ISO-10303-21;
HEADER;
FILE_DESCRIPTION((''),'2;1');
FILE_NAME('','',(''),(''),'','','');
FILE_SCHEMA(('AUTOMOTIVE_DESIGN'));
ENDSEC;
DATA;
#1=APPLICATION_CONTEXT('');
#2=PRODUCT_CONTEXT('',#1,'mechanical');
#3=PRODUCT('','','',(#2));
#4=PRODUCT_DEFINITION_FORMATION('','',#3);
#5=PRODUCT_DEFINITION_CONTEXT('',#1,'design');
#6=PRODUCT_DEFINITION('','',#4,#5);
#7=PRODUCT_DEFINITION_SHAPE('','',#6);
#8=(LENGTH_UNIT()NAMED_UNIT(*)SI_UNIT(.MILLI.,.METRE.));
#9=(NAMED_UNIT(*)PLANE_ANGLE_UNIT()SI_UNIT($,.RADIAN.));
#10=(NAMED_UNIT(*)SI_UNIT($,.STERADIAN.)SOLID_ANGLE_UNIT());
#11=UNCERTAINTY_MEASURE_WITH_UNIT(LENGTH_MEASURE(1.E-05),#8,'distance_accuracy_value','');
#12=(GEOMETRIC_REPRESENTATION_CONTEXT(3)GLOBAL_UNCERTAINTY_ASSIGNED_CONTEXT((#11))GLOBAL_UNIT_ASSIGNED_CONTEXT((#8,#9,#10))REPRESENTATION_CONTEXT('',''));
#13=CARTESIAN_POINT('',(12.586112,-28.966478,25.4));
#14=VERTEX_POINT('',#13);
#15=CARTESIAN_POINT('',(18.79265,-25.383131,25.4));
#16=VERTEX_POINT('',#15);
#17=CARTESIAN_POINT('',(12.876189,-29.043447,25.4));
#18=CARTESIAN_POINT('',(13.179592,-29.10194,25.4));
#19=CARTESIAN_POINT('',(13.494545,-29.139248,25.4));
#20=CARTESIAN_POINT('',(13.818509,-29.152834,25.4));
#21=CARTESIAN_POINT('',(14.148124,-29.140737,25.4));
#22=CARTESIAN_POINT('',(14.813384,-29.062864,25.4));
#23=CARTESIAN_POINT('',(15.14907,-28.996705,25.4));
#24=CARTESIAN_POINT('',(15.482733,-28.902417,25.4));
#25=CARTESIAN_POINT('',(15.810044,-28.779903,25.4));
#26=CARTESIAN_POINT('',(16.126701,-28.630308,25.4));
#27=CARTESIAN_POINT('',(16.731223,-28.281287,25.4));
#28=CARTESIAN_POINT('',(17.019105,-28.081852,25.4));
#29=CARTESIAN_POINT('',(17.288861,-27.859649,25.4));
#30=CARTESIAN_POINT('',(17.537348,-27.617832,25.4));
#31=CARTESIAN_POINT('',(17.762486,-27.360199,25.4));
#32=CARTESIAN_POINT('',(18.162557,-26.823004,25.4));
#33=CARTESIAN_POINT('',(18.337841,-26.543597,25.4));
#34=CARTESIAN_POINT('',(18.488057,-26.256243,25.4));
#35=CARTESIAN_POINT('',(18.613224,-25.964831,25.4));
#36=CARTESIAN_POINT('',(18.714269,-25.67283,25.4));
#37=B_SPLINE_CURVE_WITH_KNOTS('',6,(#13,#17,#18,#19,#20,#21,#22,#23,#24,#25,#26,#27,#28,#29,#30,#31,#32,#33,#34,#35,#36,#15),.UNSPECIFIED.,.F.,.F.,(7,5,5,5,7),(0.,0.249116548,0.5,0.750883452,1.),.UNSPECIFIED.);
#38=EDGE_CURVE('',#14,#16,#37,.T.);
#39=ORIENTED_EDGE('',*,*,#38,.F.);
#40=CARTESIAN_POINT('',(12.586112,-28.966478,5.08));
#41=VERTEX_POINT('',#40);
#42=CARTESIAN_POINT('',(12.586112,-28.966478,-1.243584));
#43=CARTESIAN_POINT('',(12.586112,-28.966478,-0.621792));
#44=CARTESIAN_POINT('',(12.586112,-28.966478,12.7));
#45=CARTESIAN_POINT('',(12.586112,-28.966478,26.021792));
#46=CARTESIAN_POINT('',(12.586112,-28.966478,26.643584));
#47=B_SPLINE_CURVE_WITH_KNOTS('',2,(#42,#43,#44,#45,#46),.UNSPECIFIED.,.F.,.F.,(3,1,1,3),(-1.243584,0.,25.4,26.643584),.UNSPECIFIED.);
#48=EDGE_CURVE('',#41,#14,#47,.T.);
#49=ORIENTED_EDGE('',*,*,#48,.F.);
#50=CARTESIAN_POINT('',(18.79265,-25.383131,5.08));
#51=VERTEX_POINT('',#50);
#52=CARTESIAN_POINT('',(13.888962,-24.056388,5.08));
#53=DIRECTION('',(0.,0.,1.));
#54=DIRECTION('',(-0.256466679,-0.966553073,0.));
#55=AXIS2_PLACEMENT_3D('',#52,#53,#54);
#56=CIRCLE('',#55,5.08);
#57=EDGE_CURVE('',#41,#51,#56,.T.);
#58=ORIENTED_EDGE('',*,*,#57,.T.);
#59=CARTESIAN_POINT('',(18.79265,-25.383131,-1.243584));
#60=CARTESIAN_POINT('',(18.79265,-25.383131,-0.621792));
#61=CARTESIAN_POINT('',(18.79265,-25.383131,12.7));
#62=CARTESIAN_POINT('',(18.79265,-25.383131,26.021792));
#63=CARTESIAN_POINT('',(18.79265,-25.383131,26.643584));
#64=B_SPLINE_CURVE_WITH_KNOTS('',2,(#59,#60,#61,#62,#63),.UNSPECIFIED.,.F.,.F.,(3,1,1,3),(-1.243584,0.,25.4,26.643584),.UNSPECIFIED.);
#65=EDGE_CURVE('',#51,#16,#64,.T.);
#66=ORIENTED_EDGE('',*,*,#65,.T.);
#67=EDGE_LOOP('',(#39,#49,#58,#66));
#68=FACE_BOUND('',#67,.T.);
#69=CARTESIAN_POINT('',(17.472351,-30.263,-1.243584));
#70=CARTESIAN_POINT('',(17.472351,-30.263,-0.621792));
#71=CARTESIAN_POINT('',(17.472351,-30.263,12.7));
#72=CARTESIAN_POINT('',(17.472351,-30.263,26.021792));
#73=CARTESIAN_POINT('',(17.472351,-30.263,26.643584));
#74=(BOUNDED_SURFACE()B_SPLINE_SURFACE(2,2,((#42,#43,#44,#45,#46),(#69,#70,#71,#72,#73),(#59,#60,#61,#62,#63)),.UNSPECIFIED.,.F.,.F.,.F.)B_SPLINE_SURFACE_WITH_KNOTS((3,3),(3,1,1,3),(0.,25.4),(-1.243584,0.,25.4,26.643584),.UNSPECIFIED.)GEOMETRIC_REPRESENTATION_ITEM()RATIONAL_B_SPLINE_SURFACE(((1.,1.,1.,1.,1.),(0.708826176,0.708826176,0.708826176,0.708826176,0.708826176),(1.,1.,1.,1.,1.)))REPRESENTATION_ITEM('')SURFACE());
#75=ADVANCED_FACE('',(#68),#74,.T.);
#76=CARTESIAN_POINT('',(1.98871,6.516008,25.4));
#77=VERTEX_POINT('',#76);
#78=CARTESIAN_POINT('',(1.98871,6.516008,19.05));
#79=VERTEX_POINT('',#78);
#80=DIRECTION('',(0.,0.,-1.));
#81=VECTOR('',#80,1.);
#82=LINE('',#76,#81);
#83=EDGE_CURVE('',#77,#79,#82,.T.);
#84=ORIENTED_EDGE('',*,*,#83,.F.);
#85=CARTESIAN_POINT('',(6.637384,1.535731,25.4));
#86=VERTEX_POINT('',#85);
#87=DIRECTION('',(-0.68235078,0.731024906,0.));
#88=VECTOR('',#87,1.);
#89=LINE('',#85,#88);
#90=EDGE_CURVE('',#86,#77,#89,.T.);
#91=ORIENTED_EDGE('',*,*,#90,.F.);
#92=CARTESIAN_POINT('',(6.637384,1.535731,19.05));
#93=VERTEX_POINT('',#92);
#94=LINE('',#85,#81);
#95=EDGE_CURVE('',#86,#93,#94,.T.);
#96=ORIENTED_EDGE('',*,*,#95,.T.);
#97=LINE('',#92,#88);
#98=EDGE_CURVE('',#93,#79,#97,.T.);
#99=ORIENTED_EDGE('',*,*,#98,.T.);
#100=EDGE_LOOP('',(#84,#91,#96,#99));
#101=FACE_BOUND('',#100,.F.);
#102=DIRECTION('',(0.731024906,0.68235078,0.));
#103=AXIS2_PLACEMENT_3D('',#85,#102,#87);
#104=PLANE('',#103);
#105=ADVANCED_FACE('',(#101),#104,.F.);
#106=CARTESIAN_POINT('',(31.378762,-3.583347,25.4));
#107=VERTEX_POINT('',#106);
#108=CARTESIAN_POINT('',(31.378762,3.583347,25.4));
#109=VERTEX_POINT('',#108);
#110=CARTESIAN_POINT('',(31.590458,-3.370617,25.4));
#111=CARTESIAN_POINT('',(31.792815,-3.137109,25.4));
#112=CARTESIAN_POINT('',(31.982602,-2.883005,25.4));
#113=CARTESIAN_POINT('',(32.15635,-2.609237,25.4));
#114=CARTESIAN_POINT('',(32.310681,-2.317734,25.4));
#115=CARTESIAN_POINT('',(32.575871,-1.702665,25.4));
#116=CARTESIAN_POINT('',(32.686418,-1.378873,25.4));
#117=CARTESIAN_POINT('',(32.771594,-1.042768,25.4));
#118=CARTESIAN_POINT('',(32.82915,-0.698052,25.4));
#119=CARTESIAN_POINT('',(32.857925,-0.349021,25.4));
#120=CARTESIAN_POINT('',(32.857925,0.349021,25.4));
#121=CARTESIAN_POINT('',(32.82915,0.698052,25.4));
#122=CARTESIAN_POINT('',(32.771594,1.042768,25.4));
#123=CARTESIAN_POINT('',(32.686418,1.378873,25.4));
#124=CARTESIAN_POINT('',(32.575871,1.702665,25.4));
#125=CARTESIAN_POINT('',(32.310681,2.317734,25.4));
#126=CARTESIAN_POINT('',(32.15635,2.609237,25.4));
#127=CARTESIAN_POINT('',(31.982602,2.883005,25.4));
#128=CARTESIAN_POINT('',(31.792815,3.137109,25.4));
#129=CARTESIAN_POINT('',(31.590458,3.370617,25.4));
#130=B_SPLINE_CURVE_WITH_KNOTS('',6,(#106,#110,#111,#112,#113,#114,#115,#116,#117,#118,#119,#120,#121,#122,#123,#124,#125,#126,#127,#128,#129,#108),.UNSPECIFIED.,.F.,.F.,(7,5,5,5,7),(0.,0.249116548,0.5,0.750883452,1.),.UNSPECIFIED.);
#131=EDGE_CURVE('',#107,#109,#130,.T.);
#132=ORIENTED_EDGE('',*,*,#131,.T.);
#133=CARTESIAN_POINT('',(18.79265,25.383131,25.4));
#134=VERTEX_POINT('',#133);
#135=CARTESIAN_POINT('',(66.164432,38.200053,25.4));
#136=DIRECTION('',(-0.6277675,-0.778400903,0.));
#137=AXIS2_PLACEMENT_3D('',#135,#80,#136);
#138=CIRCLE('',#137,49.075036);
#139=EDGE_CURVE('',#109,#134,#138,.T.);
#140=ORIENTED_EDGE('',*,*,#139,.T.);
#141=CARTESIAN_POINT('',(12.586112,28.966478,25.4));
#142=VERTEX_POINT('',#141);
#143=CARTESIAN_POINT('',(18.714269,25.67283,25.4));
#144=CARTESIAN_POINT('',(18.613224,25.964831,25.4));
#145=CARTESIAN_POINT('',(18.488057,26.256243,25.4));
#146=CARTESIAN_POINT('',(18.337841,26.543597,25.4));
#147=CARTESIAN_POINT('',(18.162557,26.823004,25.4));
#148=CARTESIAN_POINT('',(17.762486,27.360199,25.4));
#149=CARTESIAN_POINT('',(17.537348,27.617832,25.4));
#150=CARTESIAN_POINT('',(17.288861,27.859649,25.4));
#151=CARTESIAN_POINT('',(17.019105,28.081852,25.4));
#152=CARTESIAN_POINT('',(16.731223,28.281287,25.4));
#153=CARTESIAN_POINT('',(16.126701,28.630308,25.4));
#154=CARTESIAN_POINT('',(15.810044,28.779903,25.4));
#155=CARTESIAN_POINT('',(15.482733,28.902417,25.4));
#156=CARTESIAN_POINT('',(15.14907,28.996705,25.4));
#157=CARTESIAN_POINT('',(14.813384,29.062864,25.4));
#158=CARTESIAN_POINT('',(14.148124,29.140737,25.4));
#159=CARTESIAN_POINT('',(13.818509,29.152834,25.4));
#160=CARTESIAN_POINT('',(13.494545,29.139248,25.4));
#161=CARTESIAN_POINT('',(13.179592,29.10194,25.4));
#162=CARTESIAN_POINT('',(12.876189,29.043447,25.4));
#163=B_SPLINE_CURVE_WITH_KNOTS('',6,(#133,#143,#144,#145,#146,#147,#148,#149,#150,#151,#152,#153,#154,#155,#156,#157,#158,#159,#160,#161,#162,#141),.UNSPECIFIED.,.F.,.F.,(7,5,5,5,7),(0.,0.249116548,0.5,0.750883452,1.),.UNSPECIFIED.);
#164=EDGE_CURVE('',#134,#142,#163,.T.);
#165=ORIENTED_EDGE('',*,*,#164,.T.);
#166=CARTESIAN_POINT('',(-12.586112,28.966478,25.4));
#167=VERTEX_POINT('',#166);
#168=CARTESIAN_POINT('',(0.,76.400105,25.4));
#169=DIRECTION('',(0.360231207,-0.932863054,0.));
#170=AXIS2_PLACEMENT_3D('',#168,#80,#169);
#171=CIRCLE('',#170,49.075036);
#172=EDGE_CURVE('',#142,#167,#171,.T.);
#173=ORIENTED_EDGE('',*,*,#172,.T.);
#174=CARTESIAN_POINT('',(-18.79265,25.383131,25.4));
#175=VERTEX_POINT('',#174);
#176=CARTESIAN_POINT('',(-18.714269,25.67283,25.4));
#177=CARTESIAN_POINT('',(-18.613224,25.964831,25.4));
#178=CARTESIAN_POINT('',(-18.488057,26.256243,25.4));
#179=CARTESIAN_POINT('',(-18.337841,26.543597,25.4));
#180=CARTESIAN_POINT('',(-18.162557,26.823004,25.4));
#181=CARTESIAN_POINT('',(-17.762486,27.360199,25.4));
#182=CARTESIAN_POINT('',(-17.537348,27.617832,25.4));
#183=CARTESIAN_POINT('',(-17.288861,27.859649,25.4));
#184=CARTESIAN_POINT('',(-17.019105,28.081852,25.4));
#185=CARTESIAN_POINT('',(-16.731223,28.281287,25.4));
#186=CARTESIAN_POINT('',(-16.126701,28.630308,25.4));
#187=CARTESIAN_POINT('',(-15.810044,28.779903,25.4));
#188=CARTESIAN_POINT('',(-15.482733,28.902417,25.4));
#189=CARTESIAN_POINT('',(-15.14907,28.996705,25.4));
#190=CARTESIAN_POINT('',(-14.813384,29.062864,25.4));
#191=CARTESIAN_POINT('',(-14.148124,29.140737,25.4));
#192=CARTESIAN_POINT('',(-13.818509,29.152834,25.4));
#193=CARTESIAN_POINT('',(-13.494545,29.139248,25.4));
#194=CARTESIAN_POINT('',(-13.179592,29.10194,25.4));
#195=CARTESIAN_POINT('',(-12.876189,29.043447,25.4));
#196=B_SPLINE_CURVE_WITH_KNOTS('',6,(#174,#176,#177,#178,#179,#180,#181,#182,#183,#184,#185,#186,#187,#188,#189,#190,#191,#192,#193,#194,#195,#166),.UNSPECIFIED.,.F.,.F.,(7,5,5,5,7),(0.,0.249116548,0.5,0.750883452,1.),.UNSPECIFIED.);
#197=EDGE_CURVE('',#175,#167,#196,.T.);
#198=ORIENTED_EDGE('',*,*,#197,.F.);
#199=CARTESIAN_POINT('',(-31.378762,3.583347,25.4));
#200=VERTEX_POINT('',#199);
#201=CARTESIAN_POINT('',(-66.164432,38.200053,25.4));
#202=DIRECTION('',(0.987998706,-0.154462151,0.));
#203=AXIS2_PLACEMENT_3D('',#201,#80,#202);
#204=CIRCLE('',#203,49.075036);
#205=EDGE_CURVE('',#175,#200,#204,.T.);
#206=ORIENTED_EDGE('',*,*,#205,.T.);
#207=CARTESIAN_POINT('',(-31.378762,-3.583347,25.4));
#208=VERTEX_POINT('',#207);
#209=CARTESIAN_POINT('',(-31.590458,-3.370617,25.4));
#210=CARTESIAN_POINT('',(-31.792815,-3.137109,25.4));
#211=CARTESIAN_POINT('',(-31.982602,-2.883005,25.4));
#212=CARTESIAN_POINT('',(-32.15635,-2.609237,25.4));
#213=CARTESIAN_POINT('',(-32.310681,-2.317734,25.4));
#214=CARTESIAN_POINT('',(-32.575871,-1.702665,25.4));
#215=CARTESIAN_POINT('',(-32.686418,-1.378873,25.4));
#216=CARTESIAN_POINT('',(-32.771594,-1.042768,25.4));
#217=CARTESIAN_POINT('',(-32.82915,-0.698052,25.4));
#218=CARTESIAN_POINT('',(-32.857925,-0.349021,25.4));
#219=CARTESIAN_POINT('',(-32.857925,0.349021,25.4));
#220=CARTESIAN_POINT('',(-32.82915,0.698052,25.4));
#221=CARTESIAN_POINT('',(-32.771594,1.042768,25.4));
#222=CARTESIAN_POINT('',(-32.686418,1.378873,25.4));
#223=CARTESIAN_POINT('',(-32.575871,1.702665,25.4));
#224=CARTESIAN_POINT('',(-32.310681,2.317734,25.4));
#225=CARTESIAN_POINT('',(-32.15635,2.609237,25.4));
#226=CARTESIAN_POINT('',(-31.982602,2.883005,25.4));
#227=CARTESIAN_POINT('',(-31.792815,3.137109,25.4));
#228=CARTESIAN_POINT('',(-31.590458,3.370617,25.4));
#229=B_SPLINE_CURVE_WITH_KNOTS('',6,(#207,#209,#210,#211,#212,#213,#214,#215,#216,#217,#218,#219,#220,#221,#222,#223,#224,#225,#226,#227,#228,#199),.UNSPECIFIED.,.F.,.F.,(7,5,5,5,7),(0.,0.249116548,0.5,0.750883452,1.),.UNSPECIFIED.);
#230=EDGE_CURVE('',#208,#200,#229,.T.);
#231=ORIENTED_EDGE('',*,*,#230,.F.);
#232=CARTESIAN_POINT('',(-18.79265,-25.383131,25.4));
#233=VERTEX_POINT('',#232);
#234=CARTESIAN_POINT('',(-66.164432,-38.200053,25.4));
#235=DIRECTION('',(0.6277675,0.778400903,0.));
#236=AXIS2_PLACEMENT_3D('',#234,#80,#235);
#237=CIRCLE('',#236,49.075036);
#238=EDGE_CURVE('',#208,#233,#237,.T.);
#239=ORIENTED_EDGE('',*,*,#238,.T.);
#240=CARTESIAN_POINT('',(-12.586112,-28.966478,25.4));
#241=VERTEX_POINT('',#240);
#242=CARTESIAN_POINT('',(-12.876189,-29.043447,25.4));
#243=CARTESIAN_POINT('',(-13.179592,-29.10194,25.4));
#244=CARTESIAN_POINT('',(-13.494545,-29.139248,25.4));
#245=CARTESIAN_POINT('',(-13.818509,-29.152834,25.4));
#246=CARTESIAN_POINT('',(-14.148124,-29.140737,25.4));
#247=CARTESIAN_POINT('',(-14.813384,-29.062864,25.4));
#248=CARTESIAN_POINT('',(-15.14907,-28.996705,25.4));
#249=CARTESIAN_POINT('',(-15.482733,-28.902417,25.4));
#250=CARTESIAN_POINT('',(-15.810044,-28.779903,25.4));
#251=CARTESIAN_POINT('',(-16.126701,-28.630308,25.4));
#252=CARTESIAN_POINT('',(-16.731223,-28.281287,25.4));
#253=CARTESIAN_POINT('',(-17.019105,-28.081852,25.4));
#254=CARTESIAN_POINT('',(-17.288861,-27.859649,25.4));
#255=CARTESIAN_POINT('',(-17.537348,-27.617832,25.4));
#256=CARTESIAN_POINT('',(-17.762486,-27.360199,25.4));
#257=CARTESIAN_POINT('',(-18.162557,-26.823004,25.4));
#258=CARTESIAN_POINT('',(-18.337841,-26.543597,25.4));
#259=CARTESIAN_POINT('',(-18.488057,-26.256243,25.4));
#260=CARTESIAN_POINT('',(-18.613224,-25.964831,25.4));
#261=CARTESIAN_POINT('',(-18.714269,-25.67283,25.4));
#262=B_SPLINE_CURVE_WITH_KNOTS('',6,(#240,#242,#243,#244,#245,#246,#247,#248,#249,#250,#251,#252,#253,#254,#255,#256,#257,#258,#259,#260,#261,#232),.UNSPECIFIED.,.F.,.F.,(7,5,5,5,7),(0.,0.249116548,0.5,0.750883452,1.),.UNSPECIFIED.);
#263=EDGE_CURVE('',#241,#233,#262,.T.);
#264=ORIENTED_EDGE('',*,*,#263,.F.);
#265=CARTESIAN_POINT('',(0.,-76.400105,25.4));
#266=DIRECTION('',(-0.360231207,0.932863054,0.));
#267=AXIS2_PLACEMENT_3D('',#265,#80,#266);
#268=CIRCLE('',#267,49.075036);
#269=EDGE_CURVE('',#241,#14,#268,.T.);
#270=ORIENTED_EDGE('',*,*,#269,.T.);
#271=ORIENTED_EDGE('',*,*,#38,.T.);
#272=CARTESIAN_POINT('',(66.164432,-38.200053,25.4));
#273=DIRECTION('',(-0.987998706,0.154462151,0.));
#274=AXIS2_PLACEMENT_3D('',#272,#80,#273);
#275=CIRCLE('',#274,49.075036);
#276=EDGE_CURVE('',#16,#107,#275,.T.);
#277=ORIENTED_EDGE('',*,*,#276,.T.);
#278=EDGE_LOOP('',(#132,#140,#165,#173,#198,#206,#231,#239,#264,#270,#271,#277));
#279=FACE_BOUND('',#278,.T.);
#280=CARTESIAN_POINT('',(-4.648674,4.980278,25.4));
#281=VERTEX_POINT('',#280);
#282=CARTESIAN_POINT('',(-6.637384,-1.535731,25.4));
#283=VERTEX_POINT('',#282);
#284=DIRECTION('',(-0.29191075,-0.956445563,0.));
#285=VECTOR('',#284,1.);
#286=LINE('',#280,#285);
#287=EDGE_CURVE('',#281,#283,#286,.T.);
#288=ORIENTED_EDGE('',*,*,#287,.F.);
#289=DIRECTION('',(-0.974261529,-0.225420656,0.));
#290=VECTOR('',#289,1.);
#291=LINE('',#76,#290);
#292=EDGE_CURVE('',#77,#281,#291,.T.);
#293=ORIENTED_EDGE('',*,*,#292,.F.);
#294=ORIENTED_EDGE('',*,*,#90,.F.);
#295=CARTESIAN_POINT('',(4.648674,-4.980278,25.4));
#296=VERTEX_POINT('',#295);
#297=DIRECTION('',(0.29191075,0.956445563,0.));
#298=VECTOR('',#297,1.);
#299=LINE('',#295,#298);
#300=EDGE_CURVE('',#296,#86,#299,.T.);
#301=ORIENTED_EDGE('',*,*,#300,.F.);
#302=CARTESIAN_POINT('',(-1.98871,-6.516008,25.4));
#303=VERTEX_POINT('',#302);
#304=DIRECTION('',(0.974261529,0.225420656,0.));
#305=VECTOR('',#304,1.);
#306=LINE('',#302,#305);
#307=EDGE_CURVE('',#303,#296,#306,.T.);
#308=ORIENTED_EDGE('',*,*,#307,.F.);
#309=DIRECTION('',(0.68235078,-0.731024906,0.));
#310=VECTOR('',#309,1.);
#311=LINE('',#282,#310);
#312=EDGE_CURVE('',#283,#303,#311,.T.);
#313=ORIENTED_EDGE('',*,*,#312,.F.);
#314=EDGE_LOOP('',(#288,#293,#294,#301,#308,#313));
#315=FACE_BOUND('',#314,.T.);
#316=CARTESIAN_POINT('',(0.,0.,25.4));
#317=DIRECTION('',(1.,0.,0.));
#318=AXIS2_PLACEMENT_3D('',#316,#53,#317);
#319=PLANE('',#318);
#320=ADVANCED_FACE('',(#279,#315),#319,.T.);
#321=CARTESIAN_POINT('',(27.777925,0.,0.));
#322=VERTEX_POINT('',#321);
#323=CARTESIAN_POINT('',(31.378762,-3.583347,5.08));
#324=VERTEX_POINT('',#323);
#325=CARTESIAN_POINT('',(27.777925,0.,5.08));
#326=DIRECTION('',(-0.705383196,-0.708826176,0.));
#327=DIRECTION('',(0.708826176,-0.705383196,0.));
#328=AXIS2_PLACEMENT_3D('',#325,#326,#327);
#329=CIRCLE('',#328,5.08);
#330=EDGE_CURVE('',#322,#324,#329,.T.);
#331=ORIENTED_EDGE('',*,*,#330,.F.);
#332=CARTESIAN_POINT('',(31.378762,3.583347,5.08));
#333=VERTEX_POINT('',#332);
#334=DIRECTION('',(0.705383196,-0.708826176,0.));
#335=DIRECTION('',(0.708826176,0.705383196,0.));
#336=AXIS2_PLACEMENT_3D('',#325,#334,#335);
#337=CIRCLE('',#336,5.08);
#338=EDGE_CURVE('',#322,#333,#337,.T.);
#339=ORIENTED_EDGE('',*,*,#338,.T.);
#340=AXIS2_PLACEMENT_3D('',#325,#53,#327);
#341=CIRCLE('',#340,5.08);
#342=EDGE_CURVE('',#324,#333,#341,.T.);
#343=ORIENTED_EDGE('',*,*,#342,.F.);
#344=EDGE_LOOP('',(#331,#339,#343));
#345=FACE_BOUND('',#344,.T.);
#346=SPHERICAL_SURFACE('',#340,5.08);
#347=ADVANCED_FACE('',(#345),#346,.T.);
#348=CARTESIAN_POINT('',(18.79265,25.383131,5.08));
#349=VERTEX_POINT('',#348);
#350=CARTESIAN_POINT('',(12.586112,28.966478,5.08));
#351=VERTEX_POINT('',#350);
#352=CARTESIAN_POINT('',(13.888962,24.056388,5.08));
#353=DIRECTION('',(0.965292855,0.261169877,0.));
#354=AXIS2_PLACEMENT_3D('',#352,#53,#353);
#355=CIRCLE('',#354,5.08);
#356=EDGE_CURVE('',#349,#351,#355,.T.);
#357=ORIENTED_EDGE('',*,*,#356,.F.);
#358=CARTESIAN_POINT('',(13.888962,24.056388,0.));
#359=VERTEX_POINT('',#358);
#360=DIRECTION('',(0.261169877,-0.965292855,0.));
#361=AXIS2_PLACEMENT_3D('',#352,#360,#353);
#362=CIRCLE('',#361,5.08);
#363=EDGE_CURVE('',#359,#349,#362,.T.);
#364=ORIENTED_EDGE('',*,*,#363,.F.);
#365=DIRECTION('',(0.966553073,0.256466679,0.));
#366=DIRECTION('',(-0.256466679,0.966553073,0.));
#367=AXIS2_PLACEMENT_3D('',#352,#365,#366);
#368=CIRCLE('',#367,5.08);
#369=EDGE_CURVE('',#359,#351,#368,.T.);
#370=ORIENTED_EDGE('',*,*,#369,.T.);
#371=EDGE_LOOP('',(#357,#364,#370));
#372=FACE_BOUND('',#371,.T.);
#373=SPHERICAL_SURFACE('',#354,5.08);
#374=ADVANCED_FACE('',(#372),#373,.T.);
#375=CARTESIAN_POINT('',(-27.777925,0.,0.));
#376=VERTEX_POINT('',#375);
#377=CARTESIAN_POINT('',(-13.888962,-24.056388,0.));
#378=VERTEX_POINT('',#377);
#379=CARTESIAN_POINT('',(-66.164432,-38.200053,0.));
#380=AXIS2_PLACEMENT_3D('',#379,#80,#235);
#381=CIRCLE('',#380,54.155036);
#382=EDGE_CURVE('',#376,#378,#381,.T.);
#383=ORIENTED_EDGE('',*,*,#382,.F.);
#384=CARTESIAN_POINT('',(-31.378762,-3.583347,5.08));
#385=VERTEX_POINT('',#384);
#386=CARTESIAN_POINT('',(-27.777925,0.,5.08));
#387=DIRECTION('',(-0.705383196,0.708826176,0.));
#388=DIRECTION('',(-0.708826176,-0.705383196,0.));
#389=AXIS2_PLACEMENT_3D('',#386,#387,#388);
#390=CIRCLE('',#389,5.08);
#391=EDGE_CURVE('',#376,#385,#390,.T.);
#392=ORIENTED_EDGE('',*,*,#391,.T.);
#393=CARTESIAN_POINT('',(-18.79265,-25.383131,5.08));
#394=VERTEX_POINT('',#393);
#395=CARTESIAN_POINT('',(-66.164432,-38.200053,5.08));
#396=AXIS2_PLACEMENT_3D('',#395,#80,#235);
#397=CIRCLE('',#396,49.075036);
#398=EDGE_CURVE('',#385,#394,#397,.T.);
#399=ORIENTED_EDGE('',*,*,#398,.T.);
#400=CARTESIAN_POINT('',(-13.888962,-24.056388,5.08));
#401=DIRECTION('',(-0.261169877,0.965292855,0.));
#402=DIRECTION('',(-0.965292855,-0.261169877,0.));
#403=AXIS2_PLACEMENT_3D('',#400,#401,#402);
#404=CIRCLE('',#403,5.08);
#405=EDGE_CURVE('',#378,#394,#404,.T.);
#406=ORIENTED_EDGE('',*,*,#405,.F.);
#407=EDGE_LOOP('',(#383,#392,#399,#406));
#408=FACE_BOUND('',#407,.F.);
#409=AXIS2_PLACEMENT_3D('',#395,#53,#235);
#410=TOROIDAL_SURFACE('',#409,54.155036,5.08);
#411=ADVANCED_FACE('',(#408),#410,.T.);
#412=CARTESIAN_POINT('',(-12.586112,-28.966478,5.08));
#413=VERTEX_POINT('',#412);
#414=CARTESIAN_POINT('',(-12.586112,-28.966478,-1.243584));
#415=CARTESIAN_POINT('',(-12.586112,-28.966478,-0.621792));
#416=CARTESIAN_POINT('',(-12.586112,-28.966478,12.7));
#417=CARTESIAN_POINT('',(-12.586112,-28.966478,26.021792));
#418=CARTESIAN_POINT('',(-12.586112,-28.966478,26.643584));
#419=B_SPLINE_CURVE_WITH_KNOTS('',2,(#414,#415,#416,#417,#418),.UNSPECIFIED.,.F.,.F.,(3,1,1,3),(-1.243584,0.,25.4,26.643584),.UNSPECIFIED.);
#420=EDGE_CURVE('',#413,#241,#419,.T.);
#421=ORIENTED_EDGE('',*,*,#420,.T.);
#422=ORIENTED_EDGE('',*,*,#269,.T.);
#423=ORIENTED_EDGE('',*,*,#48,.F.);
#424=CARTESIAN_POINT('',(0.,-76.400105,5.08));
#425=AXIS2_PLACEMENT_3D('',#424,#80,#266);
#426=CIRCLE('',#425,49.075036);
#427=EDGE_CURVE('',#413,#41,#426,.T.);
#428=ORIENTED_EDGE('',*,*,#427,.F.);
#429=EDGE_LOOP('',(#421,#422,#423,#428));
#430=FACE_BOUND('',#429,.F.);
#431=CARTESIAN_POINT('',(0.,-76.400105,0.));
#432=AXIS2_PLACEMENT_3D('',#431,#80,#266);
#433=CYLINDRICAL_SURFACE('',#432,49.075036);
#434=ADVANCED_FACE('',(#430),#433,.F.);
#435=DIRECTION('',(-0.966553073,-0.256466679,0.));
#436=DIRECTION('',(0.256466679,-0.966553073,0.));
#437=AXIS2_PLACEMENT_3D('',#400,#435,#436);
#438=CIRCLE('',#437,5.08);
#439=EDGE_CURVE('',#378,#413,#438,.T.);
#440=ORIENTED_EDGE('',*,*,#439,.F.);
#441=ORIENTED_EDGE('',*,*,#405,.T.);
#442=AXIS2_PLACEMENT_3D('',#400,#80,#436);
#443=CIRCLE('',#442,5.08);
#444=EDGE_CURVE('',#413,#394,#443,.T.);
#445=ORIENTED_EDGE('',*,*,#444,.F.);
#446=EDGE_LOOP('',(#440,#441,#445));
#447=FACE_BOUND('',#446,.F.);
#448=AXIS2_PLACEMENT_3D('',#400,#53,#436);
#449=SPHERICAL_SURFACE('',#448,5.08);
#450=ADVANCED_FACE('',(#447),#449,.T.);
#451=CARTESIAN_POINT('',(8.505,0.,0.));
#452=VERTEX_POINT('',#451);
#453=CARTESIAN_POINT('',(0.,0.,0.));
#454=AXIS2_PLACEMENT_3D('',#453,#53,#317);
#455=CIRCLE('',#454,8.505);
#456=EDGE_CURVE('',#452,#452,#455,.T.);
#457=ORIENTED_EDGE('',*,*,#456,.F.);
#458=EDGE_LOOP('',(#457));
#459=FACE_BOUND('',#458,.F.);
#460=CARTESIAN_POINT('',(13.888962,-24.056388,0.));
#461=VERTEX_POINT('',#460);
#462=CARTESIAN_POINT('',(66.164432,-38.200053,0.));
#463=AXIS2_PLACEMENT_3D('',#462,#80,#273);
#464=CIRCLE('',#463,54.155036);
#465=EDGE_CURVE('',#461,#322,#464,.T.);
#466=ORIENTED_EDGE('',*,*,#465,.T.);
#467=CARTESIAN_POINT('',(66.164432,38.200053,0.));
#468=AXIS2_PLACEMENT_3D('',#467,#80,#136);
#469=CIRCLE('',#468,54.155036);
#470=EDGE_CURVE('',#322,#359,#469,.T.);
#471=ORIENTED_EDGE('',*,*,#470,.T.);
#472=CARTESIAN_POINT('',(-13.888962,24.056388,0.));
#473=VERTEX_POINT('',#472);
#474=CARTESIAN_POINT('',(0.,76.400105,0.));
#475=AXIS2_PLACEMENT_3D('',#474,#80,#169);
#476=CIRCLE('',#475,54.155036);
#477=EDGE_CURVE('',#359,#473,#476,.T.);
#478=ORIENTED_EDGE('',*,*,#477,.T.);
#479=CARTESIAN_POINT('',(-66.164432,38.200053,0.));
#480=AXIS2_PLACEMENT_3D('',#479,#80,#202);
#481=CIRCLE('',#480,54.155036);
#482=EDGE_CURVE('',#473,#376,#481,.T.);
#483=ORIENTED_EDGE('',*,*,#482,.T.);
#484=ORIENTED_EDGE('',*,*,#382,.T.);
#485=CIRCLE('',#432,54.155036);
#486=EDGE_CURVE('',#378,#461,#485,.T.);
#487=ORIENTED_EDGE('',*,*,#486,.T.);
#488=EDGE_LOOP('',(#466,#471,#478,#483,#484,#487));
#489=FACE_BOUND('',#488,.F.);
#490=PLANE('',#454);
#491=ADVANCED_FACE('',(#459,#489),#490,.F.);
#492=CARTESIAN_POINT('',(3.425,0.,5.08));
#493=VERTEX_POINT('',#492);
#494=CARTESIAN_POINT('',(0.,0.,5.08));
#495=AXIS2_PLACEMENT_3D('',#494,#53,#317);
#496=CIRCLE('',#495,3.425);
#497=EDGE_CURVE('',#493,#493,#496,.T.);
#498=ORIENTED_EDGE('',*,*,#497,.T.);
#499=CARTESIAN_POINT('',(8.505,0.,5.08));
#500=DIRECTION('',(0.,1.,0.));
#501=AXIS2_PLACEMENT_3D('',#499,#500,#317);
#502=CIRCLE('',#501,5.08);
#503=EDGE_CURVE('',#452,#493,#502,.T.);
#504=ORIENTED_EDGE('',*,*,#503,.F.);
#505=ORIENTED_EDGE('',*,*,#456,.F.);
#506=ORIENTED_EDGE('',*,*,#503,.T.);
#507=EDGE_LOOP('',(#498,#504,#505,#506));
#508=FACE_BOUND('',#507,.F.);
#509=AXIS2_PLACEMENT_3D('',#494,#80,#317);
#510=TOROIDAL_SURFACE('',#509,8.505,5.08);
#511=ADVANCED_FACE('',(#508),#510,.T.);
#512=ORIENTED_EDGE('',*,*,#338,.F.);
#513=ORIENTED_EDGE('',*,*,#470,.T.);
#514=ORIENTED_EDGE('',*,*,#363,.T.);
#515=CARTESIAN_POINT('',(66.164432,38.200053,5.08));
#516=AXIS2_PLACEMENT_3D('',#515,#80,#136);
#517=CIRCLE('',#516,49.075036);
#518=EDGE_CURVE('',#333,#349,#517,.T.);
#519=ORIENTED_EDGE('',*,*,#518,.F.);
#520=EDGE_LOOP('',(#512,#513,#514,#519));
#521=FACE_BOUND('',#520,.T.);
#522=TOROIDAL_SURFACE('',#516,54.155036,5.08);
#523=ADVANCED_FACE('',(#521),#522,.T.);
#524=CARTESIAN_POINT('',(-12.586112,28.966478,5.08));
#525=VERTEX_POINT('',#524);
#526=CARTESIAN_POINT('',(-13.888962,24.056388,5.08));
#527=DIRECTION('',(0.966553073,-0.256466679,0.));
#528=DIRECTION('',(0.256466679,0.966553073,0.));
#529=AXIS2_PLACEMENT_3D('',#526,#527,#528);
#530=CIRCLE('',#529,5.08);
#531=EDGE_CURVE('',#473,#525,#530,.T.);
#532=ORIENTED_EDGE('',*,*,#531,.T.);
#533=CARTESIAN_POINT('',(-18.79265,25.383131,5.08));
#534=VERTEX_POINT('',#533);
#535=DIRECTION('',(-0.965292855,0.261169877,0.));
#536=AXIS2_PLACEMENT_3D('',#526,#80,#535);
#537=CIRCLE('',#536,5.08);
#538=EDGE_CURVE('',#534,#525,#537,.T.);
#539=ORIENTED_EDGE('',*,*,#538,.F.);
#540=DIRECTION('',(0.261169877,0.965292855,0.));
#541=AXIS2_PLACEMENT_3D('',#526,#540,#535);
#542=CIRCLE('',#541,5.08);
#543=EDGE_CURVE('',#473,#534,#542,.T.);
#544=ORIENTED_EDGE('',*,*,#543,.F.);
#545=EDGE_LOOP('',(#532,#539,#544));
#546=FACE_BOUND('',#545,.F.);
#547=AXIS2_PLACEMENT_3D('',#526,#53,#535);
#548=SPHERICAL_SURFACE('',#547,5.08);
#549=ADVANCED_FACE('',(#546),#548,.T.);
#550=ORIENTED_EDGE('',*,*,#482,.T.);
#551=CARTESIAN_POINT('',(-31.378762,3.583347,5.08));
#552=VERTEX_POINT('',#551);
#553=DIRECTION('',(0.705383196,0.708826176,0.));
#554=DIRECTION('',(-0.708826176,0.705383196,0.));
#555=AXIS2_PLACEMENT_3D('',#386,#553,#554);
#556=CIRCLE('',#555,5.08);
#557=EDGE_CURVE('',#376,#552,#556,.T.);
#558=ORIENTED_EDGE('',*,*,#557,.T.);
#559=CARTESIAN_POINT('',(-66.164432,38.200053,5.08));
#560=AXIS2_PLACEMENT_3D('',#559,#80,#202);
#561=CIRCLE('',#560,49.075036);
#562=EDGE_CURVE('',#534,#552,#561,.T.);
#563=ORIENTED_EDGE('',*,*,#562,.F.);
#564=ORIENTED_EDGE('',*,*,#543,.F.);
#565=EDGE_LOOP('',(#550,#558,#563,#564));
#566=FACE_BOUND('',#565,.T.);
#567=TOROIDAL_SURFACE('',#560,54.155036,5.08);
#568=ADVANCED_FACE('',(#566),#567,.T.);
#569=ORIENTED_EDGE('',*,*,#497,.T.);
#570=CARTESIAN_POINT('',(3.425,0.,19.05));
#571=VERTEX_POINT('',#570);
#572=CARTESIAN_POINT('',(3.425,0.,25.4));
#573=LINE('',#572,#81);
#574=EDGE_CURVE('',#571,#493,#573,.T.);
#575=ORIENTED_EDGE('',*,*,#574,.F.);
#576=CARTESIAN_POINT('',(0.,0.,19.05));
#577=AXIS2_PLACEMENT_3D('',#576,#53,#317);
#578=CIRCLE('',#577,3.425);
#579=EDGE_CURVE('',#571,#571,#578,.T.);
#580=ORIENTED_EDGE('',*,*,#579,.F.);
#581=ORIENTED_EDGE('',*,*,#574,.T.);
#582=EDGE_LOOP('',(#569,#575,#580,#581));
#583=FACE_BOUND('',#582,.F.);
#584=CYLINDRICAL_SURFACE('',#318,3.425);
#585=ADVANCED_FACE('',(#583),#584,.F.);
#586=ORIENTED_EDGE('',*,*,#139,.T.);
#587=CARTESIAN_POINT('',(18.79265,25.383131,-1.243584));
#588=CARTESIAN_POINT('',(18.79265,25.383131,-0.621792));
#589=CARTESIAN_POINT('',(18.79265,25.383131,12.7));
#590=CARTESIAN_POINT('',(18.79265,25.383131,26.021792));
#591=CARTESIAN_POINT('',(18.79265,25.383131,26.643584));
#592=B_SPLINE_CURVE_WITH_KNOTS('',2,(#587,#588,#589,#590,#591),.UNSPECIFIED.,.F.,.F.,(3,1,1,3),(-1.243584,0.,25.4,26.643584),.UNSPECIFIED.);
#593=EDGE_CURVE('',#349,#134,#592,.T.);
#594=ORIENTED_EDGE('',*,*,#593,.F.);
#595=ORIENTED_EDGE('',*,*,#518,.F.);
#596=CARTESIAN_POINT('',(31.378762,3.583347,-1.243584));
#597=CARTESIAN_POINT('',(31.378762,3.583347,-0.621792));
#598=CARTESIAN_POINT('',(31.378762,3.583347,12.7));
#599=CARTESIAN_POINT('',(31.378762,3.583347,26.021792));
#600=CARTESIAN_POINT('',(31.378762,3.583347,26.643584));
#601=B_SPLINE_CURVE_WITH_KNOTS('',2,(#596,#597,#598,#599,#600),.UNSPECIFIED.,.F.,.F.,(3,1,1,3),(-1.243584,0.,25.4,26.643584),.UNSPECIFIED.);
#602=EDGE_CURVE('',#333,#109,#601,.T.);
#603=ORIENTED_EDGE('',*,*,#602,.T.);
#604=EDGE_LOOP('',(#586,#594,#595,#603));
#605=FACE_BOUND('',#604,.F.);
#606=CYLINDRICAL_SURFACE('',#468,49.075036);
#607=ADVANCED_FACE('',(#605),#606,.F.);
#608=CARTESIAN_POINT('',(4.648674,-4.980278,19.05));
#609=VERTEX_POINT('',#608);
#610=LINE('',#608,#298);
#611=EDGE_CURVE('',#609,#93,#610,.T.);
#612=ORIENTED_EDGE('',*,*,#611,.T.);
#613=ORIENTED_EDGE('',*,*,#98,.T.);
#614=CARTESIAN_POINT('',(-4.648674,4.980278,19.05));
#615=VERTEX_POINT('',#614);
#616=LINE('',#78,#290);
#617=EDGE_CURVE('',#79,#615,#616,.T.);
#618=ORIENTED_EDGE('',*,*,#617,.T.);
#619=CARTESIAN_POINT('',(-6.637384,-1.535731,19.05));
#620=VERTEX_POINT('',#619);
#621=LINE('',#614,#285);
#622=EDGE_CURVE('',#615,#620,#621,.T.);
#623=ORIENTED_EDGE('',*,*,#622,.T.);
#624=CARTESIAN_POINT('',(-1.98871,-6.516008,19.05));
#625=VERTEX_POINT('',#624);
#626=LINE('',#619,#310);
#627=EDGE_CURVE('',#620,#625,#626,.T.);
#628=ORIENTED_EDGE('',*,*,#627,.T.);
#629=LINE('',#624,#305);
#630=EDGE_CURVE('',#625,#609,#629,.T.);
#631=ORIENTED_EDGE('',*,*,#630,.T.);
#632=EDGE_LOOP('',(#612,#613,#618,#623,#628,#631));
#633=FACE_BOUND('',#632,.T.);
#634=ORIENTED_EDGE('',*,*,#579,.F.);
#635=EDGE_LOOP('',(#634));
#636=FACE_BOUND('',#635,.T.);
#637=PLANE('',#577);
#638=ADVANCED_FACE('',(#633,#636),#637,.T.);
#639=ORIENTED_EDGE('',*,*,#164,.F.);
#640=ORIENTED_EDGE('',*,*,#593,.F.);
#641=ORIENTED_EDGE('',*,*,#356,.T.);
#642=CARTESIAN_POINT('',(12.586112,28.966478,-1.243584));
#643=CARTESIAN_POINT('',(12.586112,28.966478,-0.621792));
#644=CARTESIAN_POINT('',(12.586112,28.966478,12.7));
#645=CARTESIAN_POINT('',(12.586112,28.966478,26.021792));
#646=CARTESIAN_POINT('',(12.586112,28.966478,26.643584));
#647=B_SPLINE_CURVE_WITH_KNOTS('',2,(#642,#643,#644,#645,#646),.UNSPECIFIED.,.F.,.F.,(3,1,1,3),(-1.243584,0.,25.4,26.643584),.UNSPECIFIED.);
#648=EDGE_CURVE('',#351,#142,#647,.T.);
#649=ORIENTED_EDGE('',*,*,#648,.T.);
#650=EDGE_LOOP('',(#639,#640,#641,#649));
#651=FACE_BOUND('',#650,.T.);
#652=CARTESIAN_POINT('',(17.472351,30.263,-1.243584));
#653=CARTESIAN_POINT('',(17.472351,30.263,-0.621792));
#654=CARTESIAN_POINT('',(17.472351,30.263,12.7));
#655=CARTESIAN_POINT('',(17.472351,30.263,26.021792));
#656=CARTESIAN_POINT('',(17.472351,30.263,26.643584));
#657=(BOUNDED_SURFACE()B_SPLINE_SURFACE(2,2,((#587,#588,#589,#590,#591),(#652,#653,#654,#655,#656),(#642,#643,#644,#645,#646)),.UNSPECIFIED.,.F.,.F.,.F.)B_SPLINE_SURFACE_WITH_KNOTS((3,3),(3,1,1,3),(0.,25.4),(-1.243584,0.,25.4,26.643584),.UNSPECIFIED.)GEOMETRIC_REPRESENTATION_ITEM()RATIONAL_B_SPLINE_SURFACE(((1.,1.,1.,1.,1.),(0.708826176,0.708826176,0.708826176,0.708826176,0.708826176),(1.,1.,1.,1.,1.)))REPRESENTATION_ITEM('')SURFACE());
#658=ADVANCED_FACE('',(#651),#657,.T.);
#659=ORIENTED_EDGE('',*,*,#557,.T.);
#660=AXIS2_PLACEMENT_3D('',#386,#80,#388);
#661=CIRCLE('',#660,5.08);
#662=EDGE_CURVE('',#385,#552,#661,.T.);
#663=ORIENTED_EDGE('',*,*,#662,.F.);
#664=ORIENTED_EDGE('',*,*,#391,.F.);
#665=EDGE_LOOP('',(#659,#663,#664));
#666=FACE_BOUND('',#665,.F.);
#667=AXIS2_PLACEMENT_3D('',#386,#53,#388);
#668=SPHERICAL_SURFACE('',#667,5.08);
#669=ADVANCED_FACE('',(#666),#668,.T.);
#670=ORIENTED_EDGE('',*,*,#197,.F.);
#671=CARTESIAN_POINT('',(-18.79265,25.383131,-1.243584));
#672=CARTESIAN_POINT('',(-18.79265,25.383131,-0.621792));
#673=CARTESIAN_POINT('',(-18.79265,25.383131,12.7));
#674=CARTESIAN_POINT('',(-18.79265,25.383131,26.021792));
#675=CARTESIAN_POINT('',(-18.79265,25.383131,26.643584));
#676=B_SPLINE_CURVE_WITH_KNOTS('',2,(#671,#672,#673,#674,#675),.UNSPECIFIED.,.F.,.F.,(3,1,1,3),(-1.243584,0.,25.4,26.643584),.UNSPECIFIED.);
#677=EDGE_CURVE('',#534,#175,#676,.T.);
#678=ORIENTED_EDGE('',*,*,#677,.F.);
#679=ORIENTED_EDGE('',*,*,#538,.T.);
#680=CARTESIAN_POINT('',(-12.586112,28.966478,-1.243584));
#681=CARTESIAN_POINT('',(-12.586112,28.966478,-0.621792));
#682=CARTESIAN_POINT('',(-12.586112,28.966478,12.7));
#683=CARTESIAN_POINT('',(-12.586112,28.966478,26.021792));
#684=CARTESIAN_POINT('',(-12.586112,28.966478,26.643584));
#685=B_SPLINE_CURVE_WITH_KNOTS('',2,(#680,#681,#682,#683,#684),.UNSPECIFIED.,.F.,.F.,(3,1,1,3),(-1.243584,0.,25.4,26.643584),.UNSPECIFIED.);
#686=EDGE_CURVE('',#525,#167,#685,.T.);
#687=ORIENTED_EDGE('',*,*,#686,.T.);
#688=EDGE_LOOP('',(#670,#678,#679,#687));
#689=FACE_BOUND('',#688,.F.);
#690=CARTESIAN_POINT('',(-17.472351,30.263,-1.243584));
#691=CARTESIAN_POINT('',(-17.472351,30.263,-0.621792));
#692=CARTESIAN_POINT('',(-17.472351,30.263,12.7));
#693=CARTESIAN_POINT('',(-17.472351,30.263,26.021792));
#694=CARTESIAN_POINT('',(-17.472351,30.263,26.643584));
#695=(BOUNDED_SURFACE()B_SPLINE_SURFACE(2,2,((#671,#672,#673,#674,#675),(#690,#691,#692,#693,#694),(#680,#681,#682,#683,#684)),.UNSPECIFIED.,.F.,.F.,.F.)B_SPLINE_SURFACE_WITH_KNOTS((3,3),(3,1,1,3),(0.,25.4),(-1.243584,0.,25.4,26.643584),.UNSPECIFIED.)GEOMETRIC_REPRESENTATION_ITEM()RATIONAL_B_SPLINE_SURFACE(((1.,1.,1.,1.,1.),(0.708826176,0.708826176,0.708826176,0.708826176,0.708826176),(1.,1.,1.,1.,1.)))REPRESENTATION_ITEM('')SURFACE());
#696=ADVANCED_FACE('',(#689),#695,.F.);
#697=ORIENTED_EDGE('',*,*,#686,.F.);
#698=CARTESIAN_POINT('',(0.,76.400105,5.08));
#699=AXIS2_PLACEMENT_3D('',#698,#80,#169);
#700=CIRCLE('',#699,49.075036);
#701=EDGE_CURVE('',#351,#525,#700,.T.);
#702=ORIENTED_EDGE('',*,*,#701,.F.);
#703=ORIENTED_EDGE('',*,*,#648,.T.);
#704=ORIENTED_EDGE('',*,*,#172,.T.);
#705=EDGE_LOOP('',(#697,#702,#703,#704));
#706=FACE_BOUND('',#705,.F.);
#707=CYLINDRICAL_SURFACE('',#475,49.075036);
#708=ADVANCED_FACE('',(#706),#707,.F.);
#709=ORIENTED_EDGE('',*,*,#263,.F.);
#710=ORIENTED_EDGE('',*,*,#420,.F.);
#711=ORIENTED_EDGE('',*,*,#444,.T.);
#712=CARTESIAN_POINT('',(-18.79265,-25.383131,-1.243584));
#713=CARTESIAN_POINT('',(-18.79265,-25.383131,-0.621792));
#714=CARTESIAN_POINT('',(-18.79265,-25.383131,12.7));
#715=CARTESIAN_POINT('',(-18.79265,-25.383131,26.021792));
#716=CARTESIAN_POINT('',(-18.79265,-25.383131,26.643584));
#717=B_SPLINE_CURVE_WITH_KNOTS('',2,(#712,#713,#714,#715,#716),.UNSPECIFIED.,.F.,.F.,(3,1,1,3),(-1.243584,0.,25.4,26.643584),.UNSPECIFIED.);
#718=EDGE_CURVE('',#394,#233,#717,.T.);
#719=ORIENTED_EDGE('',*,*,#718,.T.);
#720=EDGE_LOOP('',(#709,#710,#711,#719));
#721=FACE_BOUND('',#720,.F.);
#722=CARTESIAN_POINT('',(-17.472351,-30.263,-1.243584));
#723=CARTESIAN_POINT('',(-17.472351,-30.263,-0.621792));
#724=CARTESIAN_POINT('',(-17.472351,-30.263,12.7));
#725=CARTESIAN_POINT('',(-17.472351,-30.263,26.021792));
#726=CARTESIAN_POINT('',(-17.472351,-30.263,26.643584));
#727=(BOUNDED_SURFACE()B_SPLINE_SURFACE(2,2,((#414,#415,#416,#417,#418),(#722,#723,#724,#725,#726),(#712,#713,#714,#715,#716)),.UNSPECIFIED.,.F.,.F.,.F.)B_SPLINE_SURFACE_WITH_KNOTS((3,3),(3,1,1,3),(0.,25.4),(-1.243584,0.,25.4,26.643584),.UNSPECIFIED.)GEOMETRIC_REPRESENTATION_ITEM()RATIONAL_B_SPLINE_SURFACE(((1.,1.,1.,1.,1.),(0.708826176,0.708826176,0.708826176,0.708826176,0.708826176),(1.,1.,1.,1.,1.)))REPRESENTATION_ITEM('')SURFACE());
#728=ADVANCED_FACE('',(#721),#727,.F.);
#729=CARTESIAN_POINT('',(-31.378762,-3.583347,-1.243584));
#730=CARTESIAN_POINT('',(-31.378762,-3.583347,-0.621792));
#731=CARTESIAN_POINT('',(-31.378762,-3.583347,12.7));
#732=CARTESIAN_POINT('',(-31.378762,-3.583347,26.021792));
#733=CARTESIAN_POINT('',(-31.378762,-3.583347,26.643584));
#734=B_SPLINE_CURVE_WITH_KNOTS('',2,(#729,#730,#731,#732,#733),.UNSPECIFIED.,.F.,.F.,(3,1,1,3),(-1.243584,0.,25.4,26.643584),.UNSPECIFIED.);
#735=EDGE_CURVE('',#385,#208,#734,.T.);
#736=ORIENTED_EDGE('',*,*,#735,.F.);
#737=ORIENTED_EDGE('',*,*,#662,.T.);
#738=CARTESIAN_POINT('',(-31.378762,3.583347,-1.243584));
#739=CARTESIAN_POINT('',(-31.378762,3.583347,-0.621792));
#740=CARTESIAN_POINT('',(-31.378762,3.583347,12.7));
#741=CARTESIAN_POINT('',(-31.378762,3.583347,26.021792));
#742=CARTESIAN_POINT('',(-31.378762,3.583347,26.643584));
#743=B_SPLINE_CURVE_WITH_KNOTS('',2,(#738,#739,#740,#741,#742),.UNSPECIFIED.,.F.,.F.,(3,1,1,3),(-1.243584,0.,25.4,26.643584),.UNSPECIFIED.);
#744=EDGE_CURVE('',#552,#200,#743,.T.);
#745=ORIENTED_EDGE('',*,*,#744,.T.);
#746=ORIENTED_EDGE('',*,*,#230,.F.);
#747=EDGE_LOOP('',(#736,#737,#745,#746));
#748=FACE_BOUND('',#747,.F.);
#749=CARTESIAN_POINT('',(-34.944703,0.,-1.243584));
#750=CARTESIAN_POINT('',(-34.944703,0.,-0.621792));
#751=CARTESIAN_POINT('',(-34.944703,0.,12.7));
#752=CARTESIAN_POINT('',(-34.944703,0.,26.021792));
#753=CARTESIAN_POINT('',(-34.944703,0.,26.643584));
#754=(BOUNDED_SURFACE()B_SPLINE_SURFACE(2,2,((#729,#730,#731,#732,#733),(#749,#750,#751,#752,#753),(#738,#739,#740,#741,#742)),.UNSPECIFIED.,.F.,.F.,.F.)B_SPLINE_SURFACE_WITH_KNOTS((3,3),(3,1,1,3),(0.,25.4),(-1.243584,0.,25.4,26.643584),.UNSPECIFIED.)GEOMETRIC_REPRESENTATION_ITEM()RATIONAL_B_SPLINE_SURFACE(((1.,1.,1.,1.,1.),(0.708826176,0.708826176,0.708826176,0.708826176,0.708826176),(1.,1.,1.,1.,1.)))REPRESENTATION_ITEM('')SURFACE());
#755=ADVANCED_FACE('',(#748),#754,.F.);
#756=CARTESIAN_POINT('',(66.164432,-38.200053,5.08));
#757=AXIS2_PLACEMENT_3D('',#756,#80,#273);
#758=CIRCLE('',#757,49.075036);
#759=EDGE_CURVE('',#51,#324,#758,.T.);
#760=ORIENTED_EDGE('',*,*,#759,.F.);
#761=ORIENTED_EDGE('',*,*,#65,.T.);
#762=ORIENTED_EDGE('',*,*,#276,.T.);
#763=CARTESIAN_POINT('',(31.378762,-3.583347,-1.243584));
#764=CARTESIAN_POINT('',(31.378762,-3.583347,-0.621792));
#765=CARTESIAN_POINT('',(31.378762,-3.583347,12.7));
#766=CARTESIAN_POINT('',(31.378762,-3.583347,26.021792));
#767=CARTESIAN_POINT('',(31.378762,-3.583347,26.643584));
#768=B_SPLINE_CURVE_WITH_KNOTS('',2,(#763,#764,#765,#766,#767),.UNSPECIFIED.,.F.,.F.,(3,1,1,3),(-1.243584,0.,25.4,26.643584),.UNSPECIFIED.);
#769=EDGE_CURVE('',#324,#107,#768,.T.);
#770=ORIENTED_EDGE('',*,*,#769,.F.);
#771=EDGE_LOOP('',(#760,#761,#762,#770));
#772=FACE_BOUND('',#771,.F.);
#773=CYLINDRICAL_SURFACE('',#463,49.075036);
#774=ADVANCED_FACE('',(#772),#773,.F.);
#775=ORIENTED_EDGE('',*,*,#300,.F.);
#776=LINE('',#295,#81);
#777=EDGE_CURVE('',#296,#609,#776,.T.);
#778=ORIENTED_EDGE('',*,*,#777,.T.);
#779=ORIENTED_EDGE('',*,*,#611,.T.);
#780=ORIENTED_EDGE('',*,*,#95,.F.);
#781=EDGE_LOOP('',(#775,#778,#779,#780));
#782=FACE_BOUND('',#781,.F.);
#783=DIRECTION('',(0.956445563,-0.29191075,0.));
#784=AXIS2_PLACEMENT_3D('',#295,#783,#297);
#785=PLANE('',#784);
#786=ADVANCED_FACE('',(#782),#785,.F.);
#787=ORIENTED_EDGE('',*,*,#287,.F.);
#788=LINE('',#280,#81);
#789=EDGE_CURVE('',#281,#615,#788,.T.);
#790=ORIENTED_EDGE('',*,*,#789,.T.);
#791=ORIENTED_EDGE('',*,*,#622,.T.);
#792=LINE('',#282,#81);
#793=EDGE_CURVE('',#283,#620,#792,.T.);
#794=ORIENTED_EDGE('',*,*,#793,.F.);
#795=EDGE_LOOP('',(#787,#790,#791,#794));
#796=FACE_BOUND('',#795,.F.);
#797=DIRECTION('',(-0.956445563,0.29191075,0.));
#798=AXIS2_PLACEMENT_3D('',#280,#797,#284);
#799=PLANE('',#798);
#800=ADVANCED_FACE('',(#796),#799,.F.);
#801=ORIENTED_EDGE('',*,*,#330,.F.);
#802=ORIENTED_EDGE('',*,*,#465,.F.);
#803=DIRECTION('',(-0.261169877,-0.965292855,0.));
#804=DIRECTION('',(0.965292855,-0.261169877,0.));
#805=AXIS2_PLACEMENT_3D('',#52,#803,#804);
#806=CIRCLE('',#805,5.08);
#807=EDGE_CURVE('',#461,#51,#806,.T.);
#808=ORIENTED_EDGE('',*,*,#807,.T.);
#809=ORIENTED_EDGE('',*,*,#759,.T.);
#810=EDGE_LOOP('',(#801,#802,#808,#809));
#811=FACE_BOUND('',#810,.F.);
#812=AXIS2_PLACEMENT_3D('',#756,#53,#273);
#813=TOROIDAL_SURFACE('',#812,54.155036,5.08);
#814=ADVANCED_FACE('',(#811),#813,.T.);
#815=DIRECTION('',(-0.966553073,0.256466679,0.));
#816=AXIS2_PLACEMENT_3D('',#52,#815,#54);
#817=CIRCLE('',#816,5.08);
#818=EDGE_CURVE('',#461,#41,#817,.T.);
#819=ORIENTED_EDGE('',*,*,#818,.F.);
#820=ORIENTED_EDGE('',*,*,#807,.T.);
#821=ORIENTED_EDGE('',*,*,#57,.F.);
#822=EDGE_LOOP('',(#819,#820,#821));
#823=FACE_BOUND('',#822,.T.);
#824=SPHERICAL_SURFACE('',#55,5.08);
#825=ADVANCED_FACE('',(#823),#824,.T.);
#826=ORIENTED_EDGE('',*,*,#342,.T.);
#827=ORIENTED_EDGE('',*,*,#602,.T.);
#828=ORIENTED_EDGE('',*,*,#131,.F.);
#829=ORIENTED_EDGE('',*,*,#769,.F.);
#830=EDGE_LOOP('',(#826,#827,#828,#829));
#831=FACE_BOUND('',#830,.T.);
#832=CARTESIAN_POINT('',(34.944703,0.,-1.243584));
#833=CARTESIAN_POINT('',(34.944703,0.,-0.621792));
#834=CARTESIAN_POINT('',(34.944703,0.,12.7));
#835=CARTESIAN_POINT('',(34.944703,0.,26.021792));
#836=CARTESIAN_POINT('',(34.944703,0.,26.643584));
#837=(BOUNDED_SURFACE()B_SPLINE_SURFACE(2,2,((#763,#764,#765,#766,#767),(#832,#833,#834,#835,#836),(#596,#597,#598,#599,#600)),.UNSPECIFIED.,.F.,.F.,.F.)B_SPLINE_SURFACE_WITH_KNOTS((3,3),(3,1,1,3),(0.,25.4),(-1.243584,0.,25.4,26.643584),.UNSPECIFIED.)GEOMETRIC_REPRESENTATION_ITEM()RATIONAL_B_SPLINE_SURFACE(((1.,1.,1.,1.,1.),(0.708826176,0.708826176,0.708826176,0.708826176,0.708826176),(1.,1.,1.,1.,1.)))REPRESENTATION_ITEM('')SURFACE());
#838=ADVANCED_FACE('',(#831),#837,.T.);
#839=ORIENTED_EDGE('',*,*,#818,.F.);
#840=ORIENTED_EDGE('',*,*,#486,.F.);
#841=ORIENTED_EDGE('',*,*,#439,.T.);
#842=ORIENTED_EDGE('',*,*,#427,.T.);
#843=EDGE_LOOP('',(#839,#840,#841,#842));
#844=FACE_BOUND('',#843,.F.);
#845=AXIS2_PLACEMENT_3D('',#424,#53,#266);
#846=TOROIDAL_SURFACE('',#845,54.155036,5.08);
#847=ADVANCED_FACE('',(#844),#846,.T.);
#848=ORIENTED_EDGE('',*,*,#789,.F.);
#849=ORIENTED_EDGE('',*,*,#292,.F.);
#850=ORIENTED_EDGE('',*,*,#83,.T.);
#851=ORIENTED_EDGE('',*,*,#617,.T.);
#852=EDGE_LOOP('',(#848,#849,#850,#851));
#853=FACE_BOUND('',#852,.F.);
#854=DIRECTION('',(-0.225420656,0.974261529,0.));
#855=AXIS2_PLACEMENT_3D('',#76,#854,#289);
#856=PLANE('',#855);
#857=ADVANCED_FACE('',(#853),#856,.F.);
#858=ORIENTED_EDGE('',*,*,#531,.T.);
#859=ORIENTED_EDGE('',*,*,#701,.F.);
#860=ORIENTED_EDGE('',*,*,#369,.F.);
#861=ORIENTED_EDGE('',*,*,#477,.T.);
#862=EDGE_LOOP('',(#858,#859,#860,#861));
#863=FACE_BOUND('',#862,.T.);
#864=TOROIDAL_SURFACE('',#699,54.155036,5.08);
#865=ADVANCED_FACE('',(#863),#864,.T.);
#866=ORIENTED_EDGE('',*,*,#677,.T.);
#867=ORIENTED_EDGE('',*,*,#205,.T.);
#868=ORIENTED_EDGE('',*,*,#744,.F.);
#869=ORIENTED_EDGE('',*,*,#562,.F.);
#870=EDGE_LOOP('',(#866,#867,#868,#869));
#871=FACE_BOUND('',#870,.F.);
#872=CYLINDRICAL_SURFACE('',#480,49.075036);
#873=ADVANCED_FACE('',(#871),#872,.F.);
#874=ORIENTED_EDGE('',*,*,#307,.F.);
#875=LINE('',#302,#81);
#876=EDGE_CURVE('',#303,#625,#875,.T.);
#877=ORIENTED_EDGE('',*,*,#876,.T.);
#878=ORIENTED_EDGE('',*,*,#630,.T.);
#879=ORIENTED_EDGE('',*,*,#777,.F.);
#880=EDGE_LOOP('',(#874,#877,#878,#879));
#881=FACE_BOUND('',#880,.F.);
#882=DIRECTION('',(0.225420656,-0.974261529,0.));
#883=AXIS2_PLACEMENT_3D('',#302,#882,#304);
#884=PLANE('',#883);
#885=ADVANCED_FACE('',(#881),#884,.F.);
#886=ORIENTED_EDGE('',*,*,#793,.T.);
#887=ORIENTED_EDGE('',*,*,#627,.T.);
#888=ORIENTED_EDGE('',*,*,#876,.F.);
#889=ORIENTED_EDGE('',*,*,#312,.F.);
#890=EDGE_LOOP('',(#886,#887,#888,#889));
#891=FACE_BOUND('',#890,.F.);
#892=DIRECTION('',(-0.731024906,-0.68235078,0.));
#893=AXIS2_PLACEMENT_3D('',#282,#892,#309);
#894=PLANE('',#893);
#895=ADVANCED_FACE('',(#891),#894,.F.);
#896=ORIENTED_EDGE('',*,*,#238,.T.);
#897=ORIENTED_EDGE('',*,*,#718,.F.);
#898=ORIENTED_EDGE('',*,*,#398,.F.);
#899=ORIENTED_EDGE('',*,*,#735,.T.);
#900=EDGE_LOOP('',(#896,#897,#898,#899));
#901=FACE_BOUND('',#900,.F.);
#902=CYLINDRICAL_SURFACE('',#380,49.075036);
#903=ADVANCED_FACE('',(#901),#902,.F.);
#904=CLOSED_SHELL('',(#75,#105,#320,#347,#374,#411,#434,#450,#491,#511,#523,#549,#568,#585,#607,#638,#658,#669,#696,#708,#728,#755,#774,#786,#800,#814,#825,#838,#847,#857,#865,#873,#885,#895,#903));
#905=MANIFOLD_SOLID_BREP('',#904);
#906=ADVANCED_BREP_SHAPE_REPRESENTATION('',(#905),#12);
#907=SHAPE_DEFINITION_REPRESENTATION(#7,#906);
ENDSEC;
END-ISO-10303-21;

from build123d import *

# Parameters (mm, degrees)
F1_DEPTH = 25.4
F2_R     = 3.425
F3_DEPTH = 25.4
F4_R     = 5.08
F6_DEPTH = 6.35


with BuildPart() as f1:
    # F0 (on Top) → F1 (new body)
    with BuildSketch(Plane.XY):
        with BuildLine():
            ThreePointArc((-17.6783595035, -30.6198168546), (0, -27.3250688074), (17.6783595035, -30.6198168546))
            ThreePointArc((17.6783595035, -30.6198168546), (23.6642037473, -13.6625344037), (35.3567190071, 0))
            ThreePointArc((35.3567190071, 0), (23.6642037473, 13.6625344037), (17.6783595035, 30.6198168546))
            ThreePointArc((17.6783595035, 30.6198168546), (0, 27.3250688074), (-17.6783595035, 30.6198168546))
            ThreePointArc((-17.6783595035, 30.6198168546), (-23.6642037473, 13.6625344037), (-35.3567190071, 0))
            ThreePointArc((-35.3567190071, 0), (-23.6642037473, -13.6625344037), (-17.6783595035, -30.6198168546))
        make_face()
    extrude(amount=F1_DEPTH)

    # F2 (on face) → F3 (cut)
    with BuildSketch(Plane.XY.offset(25.4)):
        Circle(F2_R)
    extrude(amount=-F3_DEPTH, mode=Mode.SUBTRACT)

    # F4
    f4_edges = [f1.edges().sort_by_distance(p)[0] for p in [
        (-35.356719, 0, 12.7),
        (-17.67836, -30.619817, 12.7),
        (17.67836, -30.619817, 12.7),
        (35.356719, 0, 12.7),
        (17.67836, 30.619817, 12.7),
        (-17.67836, 30.619817, 12.7),
        (0, -27.325069, 0),
        (-23.664204, -13.662534, 0),
        (23.664204, -13.662534, 0),
        (-23.664204, 13.662534, 0),
        (23.664204, 13.662534, 0),
        (0, 27.325069, 0),
        (-3.425, 0, 0),
    ]]
    fillet(f4_edges, radius=F4_R)

    # F5 (on face) → F6 (cut)
    with BuildSketch(Plane.XY.offset(25.4)):
        Polygon((-1.9887100499, -6.5160084155), (4.6486737941, -4.9802776317), (6.637383844, 1.5357307838), (1.9887100499, 6.5160084155), (-4.6486737941, 4.9802776317), (-6.637383844, -1.5357307838), align=None)
    extrude(amount=-F6_DEPTH, mode=Mode.SUBTRACT)


solid = f1.part
